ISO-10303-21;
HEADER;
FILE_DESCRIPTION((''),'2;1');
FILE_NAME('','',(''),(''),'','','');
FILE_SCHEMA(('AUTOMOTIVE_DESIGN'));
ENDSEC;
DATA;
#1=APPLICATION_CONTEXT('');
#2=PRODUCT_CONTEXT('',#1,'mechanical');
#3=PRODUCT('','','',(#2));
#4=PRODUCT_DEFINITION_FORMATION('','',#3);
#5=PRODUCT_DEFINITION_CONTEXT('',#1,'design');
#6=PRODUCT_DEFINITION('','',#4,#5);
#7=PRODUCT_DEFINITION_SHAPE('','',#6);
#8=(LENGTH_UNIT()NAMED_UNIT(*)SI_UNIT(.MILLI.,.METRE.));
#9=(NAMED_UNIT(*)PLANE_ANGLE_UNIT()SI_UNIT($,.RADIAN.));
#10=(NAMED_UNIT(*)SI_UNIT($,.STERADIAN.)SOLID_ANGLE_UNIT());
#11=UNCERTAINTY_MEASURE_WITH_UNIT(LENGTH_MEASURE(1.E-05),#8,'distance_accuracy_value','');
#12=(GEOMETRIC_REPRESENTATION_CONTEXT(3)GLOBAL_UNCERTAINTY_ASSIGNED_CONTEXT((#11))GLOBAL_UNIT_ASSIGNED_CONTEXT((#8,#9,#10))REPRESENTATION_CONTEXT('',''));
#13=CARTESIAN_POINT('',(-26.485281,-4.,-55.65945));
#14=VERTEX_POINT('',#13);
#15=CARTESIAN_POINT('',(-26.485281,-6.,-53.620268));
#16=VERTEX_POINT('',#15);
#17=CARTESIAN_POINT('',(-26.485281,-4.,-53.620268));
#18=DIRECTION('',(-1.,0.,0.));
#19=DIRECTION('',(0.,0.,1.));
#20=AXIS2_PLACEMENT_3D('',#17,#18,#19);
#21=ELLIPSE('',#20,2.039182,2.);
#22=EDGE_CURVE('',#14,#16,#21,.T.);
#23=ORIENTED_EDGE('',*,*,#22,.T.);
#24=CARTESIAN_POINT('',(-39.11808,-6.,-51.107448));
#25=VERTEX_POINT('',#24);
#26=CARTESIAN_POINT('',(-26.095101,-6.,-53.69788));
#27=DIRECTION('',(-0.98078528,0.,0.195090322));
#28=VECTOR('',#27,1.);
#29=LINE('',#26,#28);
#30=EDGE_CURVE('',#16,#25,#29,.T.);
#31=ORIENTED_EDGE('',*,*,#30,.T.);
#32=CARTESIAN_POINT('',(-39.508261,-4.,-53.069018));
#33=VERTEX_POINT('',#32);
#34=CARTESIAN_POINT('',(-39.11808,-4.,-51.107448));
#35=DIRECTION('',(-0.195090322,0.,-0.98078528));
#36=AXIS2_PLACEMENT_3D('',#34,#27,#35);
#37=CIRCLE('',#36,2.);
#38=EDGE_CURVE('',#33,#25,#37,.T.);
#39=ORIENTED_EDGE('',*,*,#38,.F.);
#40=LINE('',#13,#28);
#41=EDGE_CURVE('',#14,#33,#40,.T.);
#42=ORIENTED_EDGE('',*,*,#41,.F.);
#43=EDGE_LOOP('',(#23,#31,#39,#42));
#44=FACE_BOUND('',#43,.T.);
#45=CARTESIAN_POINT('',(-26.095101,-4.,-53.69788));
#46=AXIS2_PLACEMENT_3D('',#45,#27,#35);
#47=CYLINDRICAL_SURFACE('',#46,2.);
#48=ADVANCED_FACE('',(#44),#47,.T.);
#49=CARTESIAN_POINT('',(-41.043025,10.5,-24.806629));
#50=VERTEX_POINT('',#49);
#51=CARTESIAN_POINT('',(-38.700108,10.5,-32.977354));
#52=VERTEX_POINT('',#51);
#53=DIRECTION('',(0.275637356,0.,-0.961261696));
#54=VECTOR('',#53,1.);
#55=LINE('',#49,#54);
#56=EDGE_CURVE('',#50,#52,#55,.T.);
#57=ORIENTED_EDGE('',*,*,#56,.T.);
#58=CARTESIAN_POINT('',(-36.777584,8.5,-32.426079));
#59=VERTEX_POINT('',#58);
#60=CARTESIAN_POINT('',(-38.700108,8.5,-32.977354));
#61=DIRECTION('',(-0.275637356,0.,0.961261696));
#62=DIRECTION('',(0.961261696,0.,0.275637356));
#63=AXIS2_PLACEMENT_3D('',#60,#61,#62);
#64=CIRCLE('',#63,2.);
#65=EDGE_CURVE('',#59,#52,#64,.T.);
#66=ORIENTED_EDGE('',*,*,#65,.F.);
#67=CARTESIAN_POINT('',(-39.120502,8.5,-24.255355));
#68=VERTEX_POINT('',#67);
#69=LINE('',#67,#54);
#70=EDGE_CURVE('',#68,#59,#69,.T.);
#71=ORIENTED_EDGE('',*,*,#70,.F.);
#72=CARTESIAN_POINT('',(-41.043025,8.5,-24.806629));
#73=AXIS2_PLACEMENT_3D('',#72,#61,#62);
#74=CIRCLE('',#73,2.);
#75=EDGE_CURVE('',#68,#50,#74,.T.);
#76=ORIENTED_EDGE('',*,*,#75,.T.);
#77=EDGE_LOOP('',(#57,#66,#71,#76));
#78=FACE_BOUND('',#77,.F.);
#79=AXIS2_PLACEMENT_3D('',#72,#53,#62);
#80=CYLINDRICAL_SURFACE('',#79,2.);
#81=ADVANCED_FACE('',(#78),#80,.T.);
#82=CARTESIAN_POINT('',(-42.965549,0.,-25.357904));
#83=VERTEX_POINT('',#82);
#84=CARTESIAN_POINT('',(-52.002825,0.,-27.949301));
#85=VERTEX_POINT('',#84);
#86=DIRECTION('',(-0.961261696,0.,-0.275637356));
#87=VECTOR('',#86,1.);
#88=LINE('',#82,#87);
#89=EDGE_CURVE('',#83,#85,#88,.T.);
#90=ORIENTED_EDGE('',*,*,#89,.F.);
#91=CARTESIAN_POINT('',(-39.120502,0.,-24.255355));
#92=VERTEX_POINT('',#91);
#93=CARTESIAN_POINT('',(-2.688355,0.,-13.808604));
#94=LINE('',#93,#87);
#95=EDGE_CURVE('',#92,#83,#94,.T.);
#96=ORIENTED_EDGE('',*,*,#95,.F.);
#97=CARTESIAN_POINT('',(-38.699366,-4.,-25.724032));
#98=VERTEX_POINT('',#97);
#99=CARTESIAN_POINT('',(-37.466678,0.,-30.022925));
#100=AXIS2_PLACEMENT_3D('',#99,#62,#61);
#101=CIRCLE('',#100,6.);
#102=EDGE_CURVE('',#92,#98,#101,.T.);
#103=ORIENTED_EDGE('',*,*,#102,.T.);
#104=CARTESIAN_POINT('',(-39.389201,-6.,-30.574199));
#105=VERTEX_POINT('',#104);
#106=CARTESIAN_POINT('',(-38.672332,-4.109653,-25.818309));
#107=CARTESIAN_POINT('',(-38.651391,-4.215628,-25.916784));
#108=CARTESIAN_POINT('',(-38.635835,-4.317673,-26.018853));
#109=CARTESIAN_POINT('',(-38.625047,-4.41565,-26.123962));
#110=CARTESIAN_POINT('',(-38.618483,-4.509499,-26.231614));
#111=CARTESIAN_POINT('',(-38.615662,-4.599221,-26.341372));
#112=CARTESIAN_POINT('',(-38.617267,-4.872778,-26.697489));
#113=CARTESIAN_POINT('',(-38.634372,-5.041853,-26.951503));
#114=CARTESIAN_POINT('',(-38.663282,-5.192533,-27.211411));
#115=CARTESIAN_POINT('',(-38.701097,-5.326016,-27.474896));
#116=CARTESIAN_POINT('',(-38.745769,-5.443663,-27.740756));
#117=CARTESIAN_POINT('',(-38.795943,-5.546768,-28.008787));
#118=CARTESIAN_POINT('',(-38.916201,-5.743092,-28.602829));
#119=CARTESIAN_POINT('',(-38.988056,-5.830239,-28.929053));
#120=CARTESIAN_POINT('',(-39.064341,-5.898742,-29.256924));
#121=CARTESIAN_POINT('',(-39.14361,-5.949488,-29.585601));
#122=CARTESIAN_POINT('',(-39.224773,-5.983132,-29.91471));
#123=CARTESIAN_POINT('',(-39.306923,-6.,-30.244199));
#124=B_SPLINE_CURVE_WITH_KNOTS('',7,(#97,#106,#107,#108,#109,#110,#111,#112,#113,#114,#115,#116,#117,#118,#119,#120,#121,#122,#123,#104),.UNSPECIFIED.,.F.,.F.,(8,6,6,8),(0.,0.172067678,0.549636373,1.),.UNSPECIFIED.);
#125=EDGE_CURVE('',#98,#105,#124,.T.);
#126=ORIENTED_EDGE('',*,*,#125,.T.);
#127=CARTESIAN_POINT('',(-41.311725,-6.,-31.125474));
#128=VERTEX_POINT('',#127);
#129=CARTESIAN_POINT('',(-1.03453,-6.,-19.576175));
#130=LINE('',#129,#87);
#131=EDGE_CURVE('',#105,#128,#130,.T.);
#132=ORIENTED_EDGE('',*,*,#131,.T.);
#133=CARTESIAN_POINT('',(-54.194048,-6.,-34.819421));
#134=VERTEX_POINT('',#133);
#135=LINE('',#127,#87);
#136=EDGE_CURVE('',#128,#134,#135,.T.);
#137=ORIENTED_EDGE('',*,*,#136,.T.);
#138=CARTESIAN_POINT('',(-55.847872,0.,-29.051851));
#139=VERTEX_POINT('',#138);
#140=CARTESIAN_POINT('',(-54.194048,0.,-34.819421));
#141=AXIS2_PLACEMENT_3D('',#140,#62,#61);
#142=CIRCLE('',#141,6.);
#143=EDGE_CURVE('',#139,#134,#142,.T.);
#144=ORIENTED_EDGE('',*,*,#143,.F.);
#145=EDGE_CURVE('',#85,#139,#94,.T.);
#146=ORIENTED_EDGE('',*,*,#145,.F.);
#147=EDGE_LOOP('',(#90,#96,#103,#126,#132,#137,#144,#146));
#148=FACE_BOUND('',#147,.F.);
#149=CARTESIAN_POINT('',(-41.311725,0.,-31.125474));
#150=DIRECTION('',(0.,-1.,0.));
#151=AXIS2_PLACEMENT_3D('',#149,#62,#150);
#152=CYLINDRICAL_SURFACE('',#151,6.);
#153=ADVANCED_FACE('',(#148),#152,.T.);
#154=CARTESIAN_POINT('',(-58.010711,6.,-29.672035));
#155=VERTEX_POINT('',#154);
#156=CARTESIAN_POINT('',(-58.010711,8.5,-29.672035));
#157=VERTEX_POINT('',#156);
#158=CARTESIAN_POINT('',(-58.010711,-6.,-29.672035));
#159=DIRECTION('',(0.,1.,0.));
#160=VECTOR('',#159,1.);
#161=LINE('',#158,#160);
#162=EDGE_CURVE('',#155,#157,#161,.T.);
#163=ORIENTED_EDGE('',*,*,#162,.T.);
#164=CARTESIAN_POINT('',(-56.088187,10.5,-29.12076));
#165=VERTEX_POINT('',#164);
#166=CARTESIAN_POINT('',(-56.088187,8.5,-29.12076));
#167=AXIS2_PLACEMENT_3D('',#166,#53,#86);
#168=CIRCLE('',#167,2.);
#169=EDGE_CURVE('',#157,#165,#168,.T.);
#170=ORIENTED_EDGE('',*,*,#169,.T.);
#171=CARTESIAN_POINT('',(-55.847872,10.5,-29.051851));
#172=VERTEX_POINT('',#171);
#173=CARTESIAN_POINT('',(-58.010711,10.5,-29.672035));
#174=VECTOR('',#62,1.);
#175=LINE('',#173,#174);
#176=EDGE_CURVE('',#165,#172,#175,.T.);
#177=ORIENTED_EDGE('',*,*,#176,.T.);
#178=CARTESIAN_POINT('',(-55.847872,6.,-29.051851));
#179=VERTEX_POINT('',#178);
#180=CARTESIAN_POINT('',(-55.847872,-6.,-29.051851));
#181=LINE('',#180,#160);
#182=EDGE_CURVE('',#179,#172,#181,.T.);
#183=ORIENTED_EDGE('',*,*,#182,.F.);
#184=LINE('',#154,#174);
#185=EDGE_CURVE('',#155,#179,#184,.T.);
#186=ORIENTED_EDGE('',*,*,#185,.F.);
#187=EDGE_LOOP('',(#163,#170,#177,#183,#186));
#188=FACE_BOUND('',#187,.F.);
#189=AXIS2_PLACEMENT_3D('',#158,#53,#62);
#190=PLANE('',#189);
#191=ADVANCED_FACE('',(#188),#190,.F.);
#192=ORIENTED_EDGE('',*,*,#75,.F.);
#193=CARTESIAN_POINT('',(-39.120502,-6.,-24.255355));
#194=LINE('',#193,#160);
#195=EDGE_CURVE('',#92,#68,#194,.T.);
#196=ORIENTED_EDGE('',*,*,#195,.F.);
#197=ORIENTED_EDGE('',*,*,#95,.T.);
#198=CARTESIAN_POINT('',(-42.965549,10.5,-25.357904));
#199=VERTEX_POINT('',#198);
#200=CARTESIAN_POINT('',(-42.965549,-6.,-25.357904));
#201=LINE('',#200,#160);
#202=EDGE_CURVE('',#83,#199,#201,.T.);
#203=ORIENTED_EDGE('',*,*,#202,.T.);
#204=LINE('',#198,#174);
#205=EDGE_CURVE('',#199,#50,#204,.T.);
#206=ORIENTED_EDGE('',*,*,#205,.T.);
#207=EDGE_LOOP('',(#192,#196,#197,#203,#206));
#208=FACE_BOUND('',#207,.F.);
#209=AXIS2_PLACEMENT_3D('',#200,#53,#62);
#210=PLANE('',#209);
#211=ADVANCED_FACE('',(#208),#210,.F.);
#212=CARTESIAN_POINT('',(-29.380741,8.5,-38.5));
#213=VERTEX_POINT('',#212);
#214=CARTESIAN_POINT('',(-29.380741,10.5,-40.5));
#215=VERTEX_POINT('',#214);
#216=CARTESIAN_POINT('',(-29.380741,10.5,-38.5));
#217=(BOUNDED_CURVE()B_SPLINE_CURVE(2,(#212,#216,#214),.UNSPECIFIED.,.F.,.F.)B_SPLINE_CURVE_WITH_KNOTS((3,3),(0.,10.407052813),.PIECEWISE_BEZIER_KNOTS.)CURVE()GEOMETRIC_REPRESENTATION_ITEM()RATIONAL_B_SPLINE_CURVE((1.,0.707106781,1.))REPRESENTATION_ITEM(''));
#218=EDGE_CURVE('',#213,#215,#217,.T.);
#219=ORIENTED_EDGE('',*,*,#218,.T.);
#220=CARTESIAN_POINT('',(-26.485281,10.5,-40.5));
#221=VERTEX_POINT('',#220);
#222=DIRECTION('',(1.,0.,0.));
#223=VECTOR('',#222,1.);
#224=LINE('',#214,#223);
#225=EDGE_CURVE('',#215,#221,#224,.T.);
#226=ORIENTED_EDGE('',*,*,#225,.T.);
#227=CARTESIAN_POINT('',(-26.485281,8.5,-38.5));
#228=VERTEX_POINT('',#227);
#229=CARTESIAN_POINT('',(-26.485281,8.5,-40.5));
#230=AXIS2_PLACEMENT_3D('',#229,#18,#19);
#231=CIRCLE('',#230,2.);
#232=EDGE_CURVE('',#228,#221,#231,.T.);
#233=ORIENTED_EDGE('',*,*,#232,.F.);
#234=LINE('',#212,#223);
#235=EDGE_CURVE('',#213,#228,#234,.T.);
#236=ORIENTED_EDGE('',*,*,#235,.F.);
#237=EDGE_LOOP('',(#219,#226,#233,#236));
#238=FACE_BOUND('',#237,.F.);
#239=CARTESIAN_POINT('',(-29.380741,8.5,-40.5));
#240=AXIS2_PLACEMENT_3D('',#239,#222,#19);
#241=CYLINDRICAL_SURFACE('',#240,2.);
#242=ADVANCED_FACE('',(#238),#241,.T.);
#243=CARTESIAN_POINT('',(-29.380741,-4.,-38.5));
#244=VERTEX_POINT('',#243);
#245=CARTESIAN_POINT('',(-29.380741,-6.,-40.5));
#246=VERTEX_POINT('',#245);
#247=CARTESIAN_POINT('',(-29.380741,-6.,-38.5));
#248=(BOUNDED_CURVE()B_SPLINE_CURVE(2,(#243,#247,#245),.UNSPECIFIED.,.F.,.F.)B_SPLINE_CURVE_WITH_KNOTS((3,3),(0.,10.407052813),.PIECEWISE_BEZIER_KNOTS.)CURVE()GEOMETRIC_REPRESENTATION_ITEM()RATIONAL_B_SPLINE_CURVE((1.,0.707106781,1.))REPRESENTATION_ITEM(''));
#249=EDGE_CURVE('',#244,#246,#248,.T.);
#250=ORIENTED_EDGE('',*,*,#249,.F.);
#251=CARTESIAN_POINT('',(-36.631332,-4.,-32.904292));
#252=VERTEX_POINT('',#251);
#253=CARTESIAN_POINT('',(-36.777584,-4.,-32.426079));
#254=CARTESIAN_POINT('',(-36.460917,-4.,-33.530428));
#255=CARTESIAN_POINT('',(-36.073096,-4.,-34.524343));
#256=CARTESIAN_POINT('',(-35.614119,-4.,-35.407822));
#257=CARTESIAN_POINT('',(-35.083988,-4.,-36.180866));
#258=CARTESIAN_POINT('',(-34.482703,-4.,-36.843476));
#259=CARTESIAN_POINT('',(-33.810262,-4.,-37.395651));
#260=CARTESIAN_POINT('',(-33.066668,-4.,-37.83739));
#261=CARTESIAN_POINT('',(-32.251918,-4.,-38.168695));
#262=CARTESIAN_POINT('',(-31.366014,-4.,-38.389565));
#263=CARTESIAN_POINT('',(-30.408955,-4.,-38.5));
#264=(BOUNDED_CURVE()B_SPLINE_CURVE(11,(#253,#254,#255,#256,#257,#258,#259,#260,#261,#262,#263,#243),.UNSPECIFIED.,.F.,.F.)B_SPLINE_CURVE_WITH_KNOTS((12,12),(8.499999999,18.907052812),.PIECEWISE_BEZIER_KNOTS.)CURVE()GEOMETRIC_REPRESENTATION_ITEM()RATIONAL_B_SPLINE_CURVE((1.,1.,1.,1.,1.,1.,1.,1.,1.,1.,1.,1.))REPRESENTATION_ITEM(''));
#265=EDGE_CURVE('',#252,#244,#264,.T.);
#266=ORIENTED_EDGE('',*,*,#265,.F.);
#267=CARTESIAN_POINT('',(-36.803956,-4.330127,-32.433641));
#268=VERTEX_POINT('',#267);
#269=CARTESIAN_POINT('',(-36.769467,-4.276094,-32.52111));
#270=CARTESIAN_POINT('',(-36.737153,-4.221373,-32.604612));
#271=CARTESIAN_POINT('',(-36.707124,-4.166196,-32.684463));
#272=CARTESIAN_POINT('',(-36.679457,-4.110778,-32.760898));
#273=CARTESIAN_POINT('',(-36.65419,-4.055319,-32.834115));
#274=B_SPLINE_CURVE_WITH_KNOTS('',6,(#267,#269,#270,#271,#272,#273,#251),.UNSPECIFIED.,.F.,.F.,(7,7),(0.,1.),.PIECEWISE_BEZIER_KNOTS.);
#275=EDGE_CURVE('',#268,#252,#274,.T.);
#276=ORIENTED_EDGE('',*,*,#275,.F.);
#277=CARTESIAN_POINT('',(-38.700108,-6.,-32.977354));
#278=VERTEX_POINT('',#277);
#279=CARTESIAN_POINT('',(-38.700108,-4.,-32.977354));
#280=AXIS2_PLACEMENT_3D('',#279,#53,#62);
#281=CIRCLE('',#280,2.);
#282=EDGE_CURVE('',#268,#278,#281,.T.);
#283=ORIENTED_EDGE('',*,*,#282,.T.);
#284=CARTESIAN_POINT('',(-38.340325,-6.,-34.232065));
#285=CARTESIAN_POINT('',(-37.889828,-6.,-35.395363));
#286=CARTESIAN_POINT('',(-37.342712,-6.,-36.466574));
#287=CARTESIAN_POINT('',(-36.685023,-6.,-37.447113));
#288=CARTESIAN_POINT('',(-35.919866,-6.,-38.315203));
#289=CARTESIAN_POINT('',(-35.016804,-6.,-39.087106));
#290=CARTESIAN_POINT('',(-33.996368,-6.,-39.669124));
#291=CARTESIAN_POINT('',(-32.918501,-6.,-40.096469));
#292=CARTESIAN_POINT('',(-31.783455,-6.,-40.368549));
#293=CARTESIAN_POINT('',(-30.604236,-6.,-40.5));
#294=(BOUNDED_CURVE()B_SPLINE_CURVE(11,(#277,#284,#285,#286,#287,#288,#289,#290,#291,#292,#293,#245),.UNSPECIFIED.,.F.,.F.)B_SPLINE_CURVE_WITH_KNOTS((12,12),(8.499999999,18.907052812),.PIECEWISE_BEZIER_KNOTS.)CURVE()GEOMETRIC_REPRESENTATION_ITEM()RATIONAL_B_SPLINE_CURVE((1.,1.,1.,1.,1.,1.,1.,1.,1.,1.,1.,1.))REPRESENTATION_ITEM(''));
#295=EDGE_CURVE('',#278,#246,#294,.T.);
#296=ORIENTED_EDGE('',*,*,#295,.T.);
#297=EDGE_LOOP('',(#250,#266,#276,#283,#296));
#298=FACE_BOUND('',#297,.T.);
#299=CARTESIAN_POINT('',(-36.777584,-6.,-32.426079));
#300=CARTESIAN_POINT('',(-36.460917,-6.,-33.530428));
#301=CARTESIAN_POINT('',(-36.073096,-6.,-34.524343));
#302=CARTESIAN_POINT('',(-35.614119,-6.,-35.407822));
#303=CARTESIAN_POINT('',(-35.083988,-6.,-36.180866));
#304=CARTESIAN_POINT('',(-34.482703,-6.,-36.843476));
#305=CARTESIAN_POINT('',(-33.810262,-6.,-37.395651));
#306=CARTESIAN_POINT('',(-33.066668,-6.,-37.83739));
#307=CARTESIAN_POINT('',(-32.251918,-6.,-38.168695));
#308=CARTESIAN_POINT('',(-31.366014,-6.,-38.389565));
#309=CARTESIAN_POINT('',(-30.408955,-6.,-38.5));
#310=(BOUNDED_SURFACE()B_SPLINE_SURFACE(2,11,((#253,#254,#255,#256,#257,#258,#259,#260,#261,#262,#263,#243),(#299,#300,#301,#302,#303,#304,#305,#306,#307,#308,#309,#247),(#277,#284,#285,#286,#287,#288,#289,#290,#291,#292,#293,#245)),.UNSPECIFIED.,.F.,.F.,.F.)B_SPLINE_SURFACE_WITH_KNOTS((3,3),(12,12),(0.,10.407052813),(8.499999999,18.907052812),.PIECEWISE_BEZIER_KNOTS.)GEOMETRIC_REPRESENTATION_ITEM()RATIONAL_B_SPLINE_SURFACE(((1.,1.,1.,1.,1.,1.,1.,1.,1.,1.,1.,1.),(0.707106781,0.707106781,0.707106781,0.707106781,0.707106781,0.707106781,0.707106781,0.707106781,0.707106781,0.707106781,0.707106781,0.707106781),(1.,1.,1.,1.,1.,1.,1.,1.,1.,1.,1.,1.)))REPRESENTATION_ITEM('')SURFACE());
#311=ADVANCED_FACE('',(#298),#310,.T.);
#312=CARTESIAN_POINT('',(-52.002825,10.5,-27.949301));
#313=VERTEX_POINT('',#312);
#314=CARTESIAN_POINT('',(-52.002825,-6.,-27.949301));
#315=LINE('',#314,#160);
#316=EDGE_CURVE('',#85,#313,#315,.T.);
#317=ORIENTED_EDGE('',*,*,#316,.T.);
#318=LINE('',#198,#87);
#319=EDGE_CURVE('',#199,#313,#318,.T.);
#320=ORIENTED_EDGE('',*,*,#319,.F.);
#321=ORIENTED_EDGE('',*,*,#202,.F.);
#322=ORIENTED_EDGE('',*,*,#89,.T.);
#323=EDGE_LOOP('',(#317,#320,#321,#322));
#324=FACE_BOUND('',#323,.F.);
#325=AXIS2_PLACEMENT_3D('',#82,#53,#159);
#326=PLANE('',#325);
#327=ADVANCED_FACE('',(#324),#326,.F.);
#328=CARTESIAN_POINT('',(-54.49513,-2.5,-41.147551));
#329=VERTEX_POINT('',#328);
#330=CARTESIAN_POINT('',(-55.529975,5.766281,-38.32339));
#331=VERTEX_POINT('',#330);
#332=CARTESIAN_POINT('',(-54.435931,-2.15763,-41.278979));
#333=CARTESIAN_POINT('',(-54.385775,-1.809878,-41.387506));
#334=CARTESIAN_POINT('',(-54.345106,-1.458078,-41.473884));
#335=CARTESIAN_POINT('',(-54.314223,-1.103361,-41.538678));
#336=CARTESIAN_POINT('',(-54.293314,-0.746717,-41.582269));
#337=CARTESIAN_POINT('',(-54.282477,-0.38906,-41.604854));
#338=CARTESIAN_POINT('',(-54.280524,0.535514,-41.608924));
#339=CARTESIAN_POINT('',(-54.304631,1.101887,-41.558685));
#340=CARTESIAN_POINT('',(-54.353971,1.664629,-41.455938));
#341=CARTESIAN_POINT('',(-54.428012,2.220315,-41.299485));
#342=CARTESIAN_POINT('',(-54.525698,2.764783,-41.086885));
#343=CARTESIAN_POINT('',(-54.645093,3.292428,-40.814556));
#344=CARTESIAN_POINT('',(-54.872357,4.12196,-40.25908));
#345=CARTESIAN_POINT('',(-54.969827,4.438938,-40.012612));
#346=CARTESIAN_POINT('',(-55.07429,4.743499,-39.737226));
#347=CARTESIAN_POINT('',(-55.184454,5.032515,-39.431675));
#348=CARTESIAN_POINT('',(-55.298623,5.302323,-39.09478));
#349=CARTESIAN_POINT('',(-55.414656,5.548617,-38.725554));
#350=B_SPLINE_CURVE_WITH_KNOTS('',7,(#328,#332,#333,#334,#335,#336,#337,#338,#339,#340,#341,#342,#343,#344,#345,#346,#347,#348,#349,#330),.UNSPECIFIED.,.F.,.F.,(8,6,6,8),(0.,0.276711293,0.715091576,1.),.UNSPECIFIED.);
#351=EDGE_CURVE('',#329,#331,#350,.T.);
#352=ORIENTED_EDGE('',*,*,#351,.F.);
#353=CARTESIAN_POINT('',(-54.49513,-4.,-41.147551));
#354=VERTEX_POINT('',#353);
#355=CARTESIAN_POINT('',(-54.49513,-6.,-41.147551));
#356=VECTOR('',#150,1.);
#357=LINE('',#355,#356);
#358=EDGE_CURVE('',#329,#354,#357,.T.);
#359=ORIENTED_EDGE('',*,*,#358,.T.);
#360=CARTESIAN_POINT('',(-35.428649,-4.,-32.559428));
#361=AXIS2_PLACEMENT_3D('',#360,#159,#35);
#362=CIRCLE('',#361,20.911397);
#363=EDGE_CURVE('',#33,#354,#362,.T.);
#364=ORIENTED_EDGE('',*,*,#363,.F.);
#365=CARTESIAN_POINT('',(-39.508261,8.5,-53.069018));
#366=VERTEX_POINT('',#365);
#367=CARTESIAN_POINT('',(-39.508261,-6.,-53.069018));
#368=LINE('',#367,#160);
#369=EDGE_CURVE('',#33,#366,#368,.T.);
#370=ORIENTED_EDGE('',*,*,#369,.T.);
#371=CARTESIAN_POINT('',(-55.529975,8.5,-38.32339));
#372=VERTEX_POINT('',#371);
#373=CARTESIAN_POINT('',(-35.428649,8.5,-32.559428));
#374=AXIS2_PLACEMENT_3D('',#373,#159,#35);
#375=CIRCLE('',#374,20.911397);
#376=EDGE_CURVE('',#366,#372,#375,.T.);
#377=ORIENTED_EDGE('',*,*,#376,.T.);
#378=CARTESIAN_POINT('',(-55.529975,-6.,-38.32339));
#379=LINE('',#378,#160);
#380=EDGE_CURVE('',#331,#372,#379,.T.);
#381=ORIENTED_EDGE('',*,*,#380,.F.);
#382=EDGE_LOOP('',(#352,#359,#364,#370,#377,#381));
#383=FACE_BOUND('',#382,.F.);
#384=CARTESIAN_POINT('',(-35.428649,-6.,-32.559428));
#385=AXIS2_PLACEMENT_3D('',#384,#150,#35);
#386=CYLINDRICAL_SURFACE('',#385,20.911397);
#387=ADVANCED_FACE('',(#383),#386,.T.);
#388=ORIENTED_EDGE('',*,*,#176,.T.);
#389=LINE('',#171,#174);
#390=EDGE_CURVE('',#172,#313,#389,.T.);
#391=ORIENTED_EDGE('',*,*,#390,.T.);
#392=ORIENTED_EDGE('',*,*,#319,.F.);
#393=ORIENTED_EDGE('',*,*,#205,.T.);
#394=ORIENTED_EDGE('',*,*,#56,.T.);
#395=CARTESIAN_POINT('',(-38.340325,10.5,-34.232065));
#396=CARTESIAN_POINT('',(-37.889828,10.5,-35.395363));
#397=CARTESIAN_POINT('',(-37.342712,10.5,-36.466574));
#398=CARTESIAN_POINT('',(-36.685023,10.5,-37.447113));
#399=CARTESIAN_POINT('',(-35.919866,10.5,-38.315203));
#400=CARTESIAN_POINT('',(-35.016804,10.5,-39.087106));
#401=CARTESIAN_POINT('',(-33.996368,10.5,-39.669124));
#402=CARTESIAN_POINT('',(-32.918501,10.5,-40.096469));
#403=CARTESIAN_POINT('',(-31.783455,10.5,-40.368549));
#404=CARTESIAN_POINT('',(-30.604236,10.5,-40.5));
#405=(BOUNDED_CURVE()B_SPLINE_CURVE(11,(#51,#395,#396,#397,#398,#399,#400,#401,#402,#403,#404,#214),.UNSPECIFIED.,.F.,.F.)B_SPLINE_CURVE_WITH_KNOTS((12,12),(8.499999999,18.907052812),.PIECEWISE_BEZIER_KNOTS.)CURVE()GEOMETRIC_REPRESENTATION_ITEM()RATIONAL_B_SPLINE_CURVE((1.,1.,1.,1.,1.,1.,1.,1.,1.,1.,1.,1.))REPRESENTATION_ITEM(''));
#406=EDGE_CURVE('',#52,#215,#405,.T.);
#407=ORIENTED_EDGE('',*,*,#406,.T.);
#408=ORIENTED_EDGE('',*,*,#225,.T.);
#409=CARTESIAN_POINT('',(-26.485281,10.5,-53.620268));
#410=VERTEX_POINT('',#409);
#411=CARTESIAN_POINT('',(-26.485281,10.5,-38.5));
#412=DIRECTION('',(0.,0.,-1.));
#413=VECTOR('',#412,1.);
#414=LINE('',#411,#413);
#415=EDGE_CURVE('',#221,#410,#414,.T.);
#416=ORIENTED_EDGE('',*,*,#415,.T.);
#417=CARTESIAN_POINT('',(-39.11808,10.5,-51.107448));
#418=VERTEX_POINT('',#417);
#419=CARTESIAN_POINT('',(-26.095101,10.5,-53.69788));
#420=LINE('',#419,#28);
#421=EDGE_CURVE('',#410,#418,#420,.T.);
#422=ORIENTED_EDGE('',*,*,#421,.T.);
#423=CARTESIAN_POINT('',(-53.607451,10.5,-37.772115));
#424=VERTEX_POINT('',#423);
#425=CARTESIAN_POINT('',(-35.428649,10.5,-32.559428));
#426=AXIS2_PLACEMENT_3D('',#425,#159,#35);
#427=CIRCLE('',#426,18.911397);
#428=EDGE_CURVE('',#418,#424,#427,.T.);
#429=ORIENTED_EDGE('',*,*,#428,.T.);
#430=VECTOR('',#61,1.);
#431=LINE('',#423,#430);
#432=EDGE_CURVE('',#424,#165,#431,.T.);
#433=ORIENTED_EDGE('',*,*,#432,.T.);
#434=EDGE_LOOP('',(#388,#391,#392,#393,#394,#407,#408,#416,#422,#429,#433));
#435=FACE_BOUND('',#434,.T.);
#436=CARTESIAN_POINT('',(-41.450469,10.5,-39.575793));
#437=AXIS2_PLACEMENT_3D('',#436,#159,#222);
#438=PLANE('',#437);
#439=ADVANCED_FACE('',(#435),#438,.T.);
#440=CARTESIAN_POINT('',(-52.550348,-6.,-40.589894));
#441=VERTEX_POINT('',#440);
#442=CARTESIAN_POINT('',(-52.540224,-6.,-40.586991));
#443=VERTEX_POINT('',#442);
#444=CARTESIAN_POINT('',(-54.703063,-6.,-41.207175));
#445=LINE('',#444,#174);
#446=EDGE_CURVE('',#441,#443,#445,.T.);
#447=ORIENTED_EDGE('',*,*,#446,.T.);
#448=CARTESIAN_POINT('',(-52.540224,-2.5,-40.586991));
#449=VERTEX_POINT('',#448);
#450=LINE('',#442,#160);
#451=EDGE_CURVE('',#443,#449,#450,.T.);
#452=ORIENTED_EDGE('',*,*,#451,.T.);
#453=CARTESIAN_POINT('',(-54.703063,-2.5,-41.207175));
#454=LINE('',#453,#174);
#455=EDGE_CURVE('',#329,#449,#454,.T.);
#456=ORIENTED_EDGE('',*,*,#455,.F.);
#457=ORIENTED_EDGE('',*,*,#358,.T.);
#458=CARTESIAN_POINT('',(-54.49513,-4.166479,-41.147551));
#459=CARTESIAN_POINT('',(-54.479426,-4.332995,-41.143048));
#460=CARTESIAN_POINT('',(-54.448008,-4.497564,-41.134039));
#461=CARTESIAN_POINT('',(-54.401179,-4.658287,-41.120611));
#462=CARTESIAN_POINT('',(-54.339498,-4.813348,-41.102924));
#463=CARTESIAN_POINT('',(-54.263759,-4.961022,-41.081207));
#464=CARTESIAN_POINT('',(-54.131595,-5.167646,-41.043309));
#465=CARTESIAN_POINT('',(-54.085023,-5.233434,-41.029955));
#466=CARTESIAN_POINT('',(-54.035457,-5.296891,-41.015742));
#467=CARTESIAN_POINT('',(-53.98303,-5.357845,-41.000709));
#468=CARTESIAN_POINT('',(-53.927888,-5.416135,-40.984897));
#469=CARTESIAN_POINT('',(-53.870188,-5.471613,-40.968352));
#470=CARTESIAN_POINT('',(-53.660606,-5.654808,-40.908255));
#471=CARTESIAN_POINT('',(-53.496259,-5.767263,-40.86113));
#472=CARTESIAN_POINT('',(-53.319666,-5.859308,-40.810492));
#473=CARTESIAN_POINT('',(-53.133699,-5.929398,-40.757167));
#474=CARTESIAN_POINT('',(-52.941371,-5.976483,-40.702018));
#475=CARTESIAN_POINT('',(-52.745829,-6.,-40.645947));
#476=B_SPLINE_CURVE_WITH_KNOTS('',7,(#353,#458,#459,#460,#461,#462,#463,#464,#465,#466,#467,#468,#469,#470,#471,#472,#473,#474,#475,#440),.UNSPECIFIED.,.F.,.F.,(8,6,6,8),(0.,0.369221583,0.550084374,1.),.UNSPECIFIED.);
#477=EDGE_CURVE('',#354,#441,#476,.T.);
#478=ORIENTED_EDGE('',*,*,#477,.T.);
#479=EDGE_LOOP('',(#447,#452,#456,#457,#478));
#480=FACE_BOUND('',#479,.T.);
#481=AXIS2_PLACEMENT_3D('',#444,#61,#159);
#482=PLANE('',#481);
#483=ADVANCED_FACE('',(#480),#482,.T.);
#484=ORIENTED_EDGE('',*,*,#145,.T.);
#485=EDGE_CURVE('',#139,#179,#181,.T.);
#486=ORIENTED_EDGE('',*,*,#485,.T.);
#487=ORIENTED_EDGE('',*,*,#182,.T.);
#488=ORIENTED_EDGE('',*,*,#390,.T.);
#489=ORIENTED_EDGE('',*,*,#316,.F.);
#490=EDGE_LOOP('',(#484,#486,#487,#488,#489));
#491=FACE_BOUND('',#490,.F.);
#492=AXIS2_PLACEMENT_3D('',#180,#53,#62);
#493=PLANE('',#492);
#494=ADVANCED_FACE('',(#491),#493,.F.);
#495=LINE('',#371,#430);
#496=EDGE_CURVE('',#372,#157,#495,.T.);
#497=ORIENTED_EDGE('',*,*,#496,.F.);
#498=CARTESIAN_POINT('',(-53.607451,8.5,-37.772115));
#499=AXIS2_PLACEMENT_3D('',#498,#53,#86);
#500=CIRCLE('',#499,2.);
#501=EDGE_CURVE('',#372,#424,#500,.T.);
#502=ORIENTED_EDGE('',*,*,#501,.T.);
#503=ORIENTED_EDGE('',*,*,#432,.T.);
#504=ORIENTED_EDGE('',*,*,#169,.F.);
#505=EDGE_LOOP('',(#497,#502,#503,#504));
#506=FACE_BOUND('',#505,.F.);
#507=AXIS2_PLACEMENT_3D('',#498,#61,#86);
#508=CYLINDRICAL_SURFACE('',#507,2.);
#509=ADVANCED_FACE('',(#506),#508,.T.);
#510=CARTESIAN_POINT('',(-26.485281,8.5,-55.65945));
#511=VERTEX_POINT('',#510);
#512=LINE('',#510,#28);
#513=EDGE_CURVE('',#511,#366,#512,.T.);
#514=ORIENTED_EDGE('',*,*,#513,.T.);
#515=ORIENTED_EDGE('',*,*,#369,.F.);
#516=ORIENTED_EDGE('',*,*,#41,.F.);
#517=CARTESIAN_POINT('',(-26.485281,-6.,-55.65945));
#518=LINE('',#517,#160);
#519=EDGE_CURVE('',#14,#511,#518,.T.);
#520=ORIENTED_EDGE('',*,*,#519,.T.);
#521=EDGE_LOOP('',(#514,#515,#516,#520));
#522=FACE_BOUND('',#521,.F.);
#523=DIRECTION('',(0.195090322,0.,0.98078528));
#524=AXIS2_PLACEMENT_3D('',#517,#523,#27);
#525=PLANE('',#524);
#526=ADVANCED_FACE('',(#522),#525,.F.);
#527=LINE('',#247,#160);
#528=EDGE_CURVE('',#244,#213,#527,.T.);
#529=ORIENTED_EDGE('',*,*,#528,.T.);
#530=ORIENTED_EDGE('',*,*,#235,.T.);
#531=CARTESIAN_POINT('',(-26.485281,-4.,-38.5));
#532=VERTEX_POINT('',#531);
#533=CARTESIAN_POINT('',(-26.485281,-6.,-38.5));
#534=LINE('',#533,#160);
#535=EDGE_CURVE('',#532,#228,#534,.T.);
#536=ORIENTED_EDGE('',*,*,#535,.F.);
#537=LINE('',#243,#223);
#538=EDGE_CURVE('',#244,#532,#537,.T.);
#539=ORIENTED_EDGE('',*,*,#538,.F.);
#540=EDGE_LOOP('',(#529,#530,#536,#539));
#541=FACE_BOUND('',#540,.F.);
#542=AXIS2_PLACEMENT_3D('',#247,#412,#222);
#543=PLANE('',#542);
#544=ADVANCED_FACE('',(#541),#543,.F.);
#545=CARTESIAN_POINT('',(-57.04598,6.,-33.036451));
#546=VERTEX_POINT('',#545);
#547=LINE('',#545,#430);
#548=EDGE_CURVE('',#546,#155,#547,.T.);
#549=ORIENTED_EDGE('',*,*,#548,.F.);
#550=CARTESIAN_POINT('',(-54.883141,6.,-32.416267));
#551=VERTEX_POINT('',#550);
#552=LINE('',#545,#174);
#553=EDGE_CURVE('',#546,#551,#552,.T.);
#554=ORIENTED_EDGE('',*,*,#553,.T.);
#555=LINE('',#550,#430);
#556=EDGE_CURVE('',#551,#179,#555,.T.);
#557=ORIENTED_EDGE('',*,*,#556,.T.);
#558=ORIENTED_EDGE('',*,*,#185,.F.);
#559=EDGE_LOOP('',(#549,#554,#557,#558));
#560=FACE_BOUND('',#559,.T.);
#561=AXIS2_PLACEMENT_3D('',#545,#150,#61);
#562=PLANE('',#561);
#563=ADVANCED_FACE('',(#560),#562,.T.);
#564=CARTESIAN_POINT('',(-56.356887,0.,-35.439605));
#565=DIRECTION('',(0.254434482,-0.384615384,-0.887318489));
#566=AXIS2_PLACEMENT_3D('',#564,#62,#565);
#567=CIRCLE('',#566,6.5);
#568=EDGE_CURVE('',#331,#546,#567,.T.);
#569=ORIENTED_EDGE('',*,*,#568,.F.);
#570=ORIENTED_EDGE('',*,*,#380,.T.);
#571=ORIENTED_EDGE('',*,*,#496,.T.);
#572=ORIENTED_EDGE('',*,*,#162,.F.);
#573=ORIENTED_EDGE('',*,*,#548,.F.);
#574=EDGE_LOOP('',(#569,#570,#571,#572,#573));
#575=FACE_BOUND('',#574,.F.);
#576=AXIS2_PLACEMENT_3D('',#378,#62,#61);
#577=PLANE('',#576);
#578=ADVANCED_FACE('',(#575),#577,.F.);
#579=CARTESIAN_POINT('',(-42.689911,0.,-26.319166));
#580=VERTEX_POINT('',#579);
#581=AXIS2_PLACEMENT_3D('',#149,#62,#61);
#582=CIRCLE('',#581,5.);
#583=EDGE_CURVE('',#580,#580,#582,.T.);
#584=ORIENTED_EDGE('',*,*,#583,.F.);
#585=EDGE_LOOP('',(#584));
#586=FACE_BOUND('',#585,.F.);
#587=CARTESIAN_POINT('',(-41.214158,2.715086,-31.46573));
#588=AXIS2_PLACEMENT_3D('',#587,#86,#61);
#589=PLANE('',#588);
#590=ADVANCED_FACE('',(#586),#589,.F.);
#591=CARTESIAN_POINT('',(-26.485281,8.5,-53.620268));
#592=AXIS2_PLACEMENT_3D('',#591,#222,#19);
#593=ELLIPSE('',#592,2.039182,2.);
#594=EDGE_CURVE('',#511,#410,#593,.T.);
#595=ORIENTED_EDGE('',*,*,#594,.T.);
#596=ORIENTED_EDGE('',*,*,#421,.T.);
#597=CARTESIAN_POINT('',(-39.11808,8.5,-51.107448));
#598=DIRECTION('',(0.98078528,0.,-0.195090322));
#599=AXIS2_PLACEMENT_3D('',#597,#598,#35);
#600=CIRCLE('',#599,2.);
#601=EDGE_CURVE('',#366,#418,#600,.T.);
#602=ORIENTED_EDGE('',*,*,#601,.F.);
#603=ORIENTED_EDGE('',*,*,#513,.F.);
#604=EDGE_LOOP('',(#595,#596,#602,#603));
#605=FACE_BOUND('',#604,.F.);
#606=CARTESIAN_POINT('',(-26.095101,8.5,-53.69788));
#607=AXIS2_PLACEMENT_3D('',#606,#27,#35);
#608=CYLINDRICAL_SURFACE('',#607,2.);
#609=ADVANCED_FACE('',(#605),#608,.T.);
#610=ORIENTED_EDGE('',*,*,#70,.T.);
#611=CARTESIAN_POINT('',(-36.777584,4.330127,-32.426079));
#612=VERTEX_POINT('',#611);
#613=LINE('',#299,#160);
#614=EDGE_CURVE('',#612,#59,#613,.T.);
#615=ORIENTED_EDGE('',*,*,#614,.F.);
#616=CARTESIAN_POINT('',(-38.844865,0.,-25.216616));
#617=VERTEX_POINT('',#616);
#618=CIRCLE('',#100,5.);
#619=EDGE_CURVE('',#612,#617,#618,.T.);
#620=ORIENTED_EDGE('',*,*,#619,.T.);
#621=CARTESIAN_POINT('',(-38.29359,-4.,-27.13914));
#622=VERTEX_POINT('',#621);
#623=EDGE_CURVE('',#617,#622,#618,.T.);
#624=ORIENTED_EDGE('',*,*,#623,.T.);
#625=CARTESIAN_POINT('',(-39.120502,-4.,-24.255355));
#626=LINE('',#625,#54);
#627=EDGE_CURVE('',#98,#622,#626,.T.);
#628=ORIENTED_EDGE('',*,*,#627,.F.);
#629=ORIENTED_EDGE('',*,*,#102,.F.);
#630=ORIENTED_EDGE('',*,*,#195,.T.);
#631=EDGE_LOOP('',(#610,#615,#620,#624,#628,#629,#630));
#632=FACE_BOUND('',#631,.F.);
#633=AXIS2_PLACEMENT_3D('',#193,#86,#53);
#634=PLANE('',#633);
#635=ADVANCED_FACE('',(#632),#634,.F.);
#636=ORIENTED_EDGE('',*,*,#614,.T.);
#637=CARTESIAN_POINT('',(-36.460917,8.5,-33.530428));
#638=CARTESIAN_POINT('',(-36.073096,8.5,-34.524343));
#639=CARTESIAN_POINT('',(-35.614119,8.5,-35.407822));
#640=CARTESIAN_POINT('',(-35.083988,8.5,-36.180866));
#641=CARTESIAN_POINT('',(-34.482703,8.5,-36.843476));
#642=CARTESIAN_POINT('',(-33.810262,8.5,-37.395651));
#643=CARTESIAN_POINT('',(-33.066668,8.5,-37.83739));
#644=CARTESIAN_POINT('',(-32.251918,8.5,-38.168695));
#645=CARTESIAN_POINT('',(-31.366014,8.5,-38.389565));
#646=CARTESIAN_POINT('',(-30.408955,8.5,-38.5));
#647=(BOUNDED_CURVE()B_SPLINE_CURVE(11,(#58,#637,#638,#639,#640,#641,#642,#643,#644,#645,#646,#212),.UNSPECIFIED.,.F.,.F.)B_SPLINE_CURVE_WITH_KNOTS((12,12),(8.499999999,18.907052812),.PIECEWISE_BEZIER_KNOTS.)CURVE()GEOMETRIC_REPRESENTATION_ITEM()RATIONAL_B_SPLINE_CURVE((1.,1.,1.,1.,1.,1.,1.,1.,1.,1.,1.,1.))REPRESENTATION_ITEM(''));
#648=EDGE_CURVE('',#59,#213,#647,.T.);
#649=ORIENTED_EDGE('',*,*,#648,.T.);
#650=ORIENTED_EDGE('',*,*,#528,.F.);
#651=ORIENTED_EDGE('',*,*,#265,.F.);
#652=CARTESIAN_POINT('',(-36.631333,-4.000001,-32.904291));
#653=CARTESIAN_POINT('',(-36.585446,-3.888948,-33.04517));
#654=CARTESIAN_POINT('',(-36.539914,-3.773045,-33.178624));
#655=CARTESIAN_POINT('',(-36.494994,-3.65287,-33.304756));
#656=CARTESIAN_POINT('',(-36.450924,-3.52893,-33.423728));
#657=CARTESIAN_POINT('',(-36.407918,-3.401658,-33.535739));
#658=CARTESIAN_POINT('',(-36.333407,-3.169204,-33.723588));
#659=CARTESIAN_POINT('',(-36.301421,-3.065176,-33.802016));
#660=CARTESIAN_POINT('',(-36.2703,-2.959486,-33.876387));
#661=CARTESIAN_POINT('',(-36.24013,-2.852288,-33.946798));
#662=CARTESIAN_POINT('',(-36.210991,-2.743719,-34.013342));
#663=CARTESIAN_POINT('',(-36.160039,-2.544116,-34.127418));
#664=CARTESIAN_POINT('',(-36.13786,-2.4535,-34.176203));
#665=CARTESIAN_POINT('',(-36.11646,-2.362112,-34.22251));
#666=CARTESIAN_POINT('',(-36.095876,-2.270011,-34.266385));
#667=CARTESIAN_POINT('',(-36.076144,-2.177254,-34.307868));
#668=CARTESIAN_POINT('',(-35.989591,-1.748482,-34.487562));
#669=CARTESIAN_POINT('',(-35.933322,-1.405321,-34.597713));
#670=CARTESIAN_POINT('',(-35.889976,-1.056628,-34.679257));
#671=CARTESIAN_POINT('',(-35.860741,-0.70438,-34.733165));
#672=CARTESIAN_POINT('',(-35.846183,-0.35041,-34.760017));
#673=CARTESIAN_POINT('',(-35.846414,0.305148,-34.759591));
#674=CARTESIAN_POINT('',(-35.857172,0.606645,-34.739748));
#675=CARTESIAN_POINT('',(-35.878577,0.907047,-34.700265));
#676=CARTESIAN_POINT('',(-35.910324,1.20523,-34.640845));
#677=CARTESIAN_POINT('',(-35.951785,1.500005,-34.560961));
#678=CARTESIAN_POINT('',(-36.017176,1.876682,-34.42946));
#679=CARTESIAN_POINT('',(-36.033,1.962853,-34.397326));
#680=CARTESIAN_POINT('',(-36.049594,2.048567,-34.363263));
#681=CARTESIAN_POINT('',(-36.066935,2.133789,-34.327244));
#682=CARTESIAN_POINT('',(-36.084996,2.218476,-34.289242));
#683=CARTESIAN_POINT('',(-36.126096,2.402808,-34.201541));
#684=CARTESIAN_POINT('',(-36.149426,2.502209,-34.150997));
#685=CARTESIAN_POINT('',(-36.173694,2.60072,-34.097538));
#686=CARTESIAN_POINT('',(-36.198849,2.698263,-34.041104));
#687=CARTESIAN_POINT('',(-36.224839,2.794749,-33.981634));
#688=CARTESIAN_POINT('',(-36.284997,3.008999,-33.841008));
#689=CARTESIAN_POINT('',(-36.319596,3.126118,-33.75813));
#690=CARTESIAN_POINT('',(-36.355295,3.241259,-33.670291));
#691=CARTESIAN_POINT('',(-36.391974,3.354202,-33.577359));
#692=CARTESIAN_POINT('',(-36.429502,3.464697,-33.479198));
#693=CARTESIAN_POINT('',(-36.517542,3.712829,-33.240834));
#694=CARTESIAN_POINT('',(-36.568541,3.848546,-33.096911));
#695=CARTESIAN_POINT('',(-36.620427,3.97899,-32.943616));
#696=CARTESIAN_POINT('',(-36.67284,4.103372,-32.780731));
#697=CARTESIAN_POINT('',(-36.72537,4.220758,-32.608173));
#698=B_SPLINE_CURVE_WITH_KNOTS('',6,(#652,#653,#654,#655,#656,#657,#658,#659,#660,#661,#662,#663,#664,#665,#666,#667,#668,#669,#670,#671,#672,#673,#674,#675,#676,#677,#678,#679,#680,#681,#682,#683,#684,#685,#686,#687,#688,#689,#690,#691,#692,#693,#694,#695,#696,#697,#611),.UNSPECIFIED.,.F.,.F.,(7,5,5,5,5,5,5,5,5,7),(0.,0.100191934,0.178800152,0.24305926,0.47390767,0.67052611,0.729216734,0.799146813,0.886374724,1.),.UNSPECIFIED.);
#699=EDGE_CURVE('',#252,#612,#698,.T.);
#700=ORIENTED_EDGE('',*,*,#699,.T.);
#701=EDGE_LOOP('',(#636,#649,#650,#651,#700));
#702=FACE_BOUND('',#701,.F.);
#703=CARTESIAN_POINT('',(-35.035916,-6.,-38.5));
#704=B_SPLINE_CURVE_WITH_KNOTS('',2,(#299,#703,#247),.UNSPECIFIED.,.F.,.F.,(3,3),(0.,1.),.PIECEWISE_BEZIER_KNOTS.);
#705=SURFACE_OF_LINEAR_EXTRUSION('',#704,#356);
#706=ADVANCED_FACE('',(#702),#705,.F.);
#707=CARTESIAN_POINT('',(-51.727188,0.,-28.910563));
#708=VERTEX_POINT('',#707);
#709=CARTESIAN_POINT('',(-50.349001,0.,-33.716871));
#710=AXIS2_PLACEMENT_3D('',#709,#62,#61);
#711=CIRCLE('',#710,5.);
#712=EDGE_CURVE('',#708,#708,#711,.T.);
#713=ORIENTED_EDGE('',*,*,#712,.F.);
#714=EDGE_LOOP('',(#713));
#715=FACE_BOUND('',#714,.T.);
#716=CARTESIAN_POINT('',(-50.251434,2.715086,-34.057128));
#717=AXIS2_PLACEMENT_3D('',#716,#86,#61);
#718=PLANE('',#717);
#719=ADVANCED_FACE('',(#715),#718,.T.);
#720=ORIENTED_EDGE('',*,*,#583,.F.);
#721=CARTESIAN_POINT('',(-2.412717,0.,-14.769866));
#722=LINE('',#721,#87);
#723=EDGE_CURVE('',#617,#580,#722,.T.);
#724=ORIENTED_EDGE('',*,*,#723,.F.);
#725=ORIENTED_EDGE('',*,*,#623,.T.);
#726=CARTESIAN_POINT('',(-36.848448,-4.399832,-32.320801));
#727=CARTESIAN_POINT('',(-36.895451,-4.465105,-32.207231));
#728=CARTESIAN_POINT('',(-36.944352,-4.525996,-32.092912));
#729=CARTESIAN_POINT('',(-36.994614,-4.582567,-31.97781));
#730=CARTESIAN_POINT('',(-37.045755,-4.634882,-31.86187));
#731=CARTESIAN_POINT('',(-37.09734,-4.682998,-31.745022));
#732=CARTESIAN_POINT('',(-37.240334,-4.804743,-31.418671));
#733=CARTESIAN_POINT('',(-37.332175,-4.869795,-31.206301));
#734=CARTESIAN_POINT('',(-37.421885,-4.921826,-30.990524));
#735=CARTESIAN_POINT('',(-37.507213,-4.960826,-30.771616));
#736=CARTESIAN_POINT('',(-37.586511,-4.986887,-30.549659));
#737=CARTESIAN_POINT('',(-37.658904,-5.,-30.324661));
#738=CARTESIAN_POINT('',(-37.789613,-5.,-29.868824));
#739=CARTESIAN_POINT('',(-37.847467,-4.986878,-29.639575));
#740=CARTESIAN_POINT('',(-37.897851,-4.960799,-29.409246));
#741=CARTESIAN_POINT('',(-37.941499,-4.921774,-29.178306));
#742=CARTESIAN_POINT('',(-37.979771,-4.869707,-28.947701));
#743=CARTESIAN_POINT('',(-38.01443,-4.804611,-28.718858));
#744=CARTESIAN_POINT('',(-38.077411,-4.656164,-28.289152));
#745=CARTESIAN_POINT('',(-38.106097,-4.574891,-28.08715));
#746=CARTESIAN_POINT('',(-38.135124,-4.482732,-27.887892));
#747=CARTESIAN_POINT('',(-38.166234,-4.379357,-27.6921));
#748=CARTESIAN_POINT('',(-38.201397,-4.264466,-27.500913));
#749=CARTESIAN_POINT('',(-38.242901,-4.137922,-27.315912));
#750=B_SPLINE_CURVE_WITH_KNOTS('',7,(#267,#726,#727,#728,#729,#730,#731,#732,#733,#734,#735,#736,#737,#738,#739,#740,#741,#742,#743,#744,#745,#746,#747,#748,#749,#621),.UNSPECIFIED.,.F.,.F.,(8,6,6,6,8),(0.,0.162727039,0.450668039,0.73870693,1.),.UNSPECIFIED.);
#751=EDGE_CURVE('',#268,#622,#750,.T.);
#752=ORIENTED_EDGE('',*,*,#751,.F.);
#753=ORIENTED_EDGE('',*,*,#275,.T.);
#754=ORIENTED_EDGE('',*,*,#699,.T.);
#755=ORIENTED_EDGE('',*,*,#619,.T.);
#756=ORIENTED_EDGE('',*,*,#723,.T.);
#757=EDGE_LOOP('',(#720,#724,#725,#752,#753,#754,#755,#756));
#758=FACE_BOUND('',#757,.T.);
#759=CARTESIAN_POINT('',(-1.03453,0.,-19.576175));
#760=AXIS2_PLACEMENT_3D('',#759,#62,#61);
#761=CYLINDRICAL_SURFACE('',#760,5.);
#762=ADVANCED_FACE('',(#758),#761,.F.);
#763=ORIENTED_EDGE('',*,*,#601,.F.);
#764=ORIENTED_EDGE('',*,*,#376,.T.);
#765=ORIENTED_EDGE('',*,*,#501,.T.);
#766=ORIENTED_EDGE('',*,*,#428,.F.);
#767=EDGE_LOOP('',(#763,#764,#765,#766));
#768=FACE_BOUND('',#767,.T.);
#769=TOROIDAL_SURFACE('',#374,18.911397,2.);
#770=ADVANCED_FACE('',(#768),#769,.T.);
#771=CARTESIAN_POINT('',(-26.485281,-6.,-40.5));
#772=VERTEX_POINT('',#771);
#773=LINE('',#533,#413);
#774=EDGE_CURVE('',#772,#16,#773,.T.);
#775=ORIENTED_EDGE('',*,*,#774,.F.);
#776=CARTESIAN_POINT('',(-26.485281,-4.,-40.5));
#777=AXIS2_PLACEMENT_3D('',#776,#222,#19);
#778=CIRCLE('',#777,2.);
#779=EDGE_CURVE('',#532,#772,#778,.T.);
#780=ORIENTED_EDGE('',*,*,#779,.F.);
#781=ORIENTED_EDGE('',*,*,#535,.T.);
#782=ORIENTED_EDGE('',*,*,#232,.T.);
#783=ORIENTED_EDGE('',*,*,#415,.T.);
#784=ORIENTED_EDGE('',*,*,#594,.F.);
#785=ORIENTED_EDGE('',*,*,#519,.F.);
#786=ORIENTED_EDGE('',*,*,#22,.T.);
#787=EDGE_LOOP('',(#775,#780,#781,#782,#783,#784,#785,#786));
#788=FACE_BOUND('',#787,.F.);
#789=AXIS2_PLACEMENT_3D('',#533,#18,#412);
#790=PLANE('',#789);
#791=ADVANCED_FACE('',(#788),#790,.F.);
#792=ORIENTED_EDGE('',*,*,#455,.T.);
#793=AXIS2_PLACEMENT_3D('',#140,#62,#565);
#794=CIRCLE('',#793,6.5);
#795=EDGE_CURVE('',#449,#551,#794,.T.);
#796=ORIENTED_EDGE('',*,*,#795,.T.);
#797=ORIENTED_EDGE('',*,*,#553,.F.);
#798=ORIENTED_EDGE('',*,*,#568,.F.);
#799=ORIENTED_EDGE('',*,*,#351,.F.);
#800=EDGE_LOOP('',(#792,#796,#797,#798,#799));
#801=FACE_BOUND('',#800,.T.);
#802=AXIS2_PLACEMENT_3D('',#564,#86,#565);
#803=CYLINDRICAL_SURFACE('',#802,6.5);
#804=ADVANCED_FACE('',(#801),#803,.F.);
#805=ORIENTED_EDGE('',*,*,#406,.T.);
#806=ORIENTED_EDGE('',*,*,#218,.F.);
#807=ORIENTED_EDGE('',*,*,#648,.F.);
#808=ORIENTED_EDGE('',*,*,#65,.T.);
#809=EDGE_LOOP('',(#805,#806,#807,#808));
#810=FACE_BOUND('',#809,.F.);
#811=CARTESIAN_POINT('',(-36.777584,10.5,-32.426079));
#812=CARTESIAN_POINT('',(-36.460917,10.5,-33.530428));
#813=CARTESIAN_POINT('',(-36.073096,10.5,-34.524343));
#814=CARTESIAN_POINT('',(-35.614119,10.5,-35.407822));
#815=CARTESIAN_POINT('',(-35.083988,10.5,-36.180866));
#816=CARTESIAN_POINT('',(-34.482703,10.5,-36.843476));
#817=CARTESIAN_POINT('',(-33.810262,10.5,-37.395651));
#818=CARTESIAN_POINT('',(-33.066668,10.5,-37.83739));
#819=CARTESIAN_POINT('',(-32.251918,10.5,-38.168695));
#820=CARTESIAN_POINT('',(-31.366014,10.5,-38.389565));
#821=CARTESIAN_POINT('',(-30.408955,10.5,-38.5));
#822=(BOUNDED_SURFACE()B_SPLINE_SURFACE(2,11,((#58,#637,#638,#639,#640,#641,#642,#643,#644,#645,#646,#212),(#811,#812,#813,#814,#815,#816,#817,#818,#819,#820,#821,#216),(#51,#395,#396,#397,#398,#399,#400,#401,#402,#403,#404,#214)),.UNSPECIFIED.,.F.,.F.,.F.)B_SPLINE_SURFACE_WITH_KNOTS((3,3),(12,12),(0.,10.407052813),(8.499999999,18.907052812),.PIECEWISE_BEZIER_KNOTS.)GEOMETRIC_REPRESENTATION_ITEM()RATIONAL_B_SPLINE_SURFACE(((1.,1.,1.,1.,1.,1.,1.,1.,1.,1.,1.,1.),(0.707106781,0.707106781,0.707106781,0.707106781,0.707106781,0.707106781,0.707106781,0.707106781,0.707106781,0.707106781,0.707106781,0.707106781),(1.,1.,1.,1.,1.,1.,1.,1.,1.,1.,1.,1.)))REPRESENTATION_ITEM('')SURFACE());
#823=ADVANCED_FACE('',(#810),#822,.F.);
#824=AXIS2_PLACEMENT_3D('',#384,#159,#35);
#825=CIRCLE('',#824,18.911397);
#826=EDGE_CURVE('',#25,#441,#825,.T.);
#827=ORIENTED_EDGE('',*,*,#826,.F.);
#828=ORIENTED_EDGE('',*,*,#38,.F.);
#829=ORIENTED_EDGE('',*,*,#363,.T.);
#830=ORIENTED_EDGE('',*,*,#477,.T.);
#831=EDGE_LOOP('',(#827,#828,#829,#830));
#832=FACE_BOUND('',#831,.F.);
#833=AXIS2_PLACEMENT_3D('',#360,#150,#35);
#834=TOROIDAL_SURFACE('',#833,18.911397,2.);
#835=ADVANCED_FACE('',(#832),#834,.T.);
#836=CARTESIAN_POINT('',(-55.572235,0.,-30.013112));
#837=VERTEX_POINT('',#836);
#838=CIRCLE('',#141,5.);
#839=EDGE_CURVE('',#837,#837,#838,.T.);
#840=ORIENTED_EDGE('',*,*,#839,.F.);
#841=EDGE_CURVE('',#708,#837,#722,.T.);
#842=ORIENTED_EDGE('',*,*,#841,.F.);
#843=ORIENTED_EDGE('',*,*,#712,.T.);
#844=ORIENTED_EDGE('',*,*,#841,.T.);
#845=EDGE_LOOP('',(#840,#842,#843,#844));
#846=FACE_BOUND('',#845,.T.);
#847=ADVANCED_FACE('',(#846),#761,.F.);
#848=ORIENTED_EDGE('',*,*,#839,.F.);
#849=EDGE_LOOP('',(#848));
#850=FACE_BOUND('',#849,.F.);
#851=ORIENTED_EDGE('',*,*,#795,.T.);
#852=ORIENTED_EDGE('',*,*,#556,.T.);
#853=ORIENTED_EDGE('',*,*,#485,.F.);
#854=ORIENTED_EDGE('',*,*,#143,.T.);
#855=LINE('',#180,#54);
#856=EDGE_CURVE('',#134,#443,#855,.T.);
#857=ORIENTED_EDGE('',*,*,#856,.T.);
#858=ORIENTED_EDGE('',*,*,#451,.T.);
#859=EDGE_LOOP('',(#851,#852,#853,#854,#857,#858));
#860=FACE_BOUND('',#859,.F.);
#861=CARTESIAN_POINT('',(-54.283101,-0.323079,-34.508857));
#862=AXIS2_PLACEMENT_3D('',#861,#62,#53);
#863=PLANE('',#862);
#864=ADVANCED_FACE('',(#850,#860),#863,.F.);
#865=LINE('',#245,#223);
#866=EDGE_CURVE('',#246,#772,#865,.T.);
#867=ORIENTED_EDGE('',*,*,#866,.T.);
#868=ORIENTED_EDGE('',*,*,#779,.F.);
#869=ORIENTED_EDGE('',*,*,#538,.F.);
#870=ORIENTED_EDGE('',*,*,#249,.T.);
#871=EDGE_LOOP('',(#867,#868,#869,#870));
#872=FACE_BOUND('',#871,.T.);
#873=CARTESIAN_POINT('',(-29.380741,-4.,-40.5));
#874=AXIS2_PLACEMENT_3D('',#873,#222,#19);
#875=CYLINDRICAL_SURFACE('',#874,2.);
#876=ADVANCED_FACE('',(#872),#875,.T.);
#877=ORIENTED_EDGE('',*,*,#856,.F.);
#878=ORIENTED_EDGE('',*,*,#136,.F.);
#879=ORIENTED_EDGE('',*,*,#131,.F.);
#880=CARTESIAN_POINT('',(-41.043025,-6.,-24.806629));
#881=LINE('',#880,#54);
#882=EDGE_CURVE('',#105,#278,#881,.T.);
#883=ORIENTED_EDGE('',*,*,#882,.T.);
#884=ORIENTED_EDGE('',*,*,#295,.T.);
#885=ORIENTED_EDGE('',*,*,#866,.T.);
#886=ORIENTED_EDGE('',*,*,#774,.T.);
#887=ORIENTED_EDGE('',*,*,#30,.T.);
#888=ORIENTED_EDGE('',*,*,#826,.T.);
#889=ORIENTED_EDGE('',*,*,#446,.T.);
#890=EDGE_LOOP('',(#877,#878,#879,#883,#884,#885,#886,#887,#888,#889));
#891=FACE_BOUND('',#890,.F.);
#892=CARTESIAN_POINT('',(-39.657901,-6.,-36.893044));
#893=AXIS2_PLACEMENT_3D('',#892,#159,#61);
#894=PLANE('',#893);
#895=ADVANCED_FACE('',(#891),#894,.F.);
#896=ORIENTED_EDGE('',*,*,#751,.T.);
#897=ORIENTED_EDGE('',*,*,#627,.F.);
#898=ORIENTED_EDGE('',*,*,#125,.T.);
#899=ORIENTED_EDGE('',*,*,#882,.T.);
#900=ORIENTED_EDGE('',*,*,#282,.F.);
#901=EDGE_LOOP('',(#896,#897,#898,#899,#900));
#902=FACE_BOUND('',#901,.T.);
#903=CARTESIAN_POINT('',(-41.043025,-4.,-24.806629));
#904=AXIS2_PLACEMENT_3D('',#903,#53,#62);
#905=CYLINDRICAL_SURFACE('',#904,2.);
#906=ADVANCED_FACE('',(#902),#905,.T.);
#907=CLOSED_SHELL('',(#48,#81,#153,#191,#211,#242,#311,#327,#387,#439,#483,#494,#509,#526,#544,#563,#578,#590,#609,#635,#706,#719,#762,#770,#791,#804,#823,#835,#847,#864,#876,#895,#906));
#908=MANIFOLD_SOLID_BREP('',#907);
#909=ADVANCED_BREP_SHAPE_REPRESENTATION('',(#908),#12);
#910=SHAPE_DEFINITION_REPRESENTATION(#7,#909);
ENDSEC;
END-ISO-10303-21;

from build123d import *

# Parameters (mm, degrees)
EXTRUDE_1_DEPTH          = 10.5
EXTRUDE_1_DEPTH_BACK     = 6
FILLET_1_R               = 2
CUT_EXTRUDE_1_DEPTH      = 51.301816014
CUT_EXTRUDE_1_DEPTH_BACK = 51.301816014
SKETCH_2_R               = 5
CUT_EXTRUDE_2_DEPTH      = 2.25
EXTRUDE_3_DEPTH          = 9.401473572


with BuildPart() as part:
    # Эскиз1 → Бобышка-Вытянуть1 (new, two sides: drawn at the far end of the back side and taken through both)
    with BuildSketch(Plane(origin=(0, 0, 0), x_dir=(1, 0, 0), z_dir=(0, 1, 0)).offset(-EXTRUDE_1_DEPTH_BACK)):
        with BuildLine():
            Line((-26.485281374, 38.5), (-26.485281374, 55.65945007))
            Line((-26.485281374, 55.65945007), (-39.508260541, 53.069018453))
            ThreePointArc((-39.508260541, 53.069018453), (-49.589786713, 47.94606891), (-55.52997461, 38.323389984))
            Line((-55.52997461, 38.323389984), (-58.010710812, 29.67203472))
            Line((-58.010710812, 29.67203472), (-55.847871996, 29.05185067))
            Line((-55.847871996, 29.05185067), (-52.002825213, 27.949301246))
            Line((-52.002825213, 27.949301246), (-48.695176943, 39.484441598))
            Line((-48.695176943, 39.484441598), (-39.657900512, 36.893044281))
            Line((-39.657900512, 36.893044281), (-42.965548782, 25.35790393))
            Line((-42.965548782, 25.35790393), (-39.120501998, 24.255354507))
            Line((-39.120501998, 24.255354507), (-36.777584474, 32.426078922))
            add(Edge.make_bspline(
                [(-36.777584474, 32.426078922), (-35.035915631, 38.5), (-29.380741372, 38.5)],
                knots=[0, 0, 0, 1, 1, 1], degree=2))
            Line((-29.380741372, 38.5), (-26.485281374, 38.5))
        make_face()
    extrude(amount=EXTRUDE_1_DEPTH + EXTRUDE_1_DEPTH_BACK)

    # Скругление1
    fillet_1_edges = [part.edges().sort_by_distance(p)[0] for p in [
        (-34.198352133, 10.5, -36.862455815),
        (-27.933011373, 10.5, -38.5),
        (-32.996770958, 10.5, -54.364234261),
        (-49.589786713, 10.5, -47.94606891),
        (-37.949043236, -6, -28.340716715),
        (-56.770342711, -6, -33.997712352),
        (-56.770342711, 10.5, -33.997712352),
        (-49.589786713, -6, -47.94606891),
        (-32.996770958, -6, -54.364234261),
        (-27.933011373, -6, -38.5),
        (-34.198352133, -6, -36.862455815),
        (-37.949043236, 10.5, -28.340716715),
    ]]
    fillet(fillet_1_edges, radius=FILLET_1_R)

    # Эскиз2 → Вырез-Вытянуть1 (cut, two sides: drawn at the far end of the back side and taken through both)
    with BuildSketch(Plane(origin=(-55.457297641, 0, -15.902124205), x_dir=(-0.27563735581600457, 0, 0.9612616959386041), z_dir=(-0.9612616959386041, 0, -0.27563735581600457)).offset(-CUT_EXTRUDE_1_DEPTH_BACK)):
        with BuildLine():
            Line((-18.53267148, -6), (-12.53267148, -6))
            Line((-12.53267148, -6), (-12.53267148, 0))
            ThreePointArc((-12.53267148, 0), (-14.290030793, -4.242640687), (-18.53267148, -6))
        make_face()
        with Locations((-18.53267148, 0)):
            Circle(SKETCH_2_R)
    extrude(amount=CUT_EXTRUDE_1_DEPTH + CUT_EXTRUDE_1_DEPTH_BACK, mode=Mode.SUBTRACT)

    # Эскиз4 → Вырез-Вытянуть2 (cut)
    with BuildSketch(Plane(origin=(-61.46518324, 0, -17.624857679), x_dir=(-0.2756373558160068, 0, 0.9612616959386036), z_dir=(-0.9612616959386036, 0, -0.2756373558160068))):
        with BuildLine():
            Line((-16.03267148, 6), (-12.53267148, 6))
            Line((-12.53267148, 6), (-12.53267148, 2.5))
            Line((-12.53267148, 2.5), (-12.53267148, -6))
            Line((-12.53267148, -6), (-21.032671479, -6))
            Line((-21.032671479, -6), (-24.53267148, -6))
            Line((-24.53267148, -6), (-24.53267148, -2.499999999))
            ThreePointArc((-24.53267148, -2.499999999), (-23.128865557, 4.596194078), (-16.03267148, 6))
        make_face()
    extrude(amount=-CUT_EXTRUDE_2_DEPTH, mode=Mode.SUBTRACT)

    # Эскиз5 → Бобышка-Вытянуть3 (add)
    with BuildSketch(Plane(origin=(-46.42002121, 0, -13.310726889), x_dir=(-0.2756373558157037, 0, 0.9612616959386904), z_dir=(-0.9612616959386904, 0, -0.2756373558157037))):
        with BuildLine():
            Line((-24.53267148, 10.5), (-24.53267148, -6))
            Line((-24.53267148, -6), (-18.53267148, -6))
            ThreePointArc((-18.53267148, -6), (-14.290030793, -4.242640687), (-12.53267148, 0))
            Line((-12.53267148, 0), (-12.53267148, 10.5))
            Line((-12.53267148, 10.5), (-24.53267148, 10.5))
        make_face()
    extrude(amount=EXTRUDE_3_DEPTH)


solid = part.part
